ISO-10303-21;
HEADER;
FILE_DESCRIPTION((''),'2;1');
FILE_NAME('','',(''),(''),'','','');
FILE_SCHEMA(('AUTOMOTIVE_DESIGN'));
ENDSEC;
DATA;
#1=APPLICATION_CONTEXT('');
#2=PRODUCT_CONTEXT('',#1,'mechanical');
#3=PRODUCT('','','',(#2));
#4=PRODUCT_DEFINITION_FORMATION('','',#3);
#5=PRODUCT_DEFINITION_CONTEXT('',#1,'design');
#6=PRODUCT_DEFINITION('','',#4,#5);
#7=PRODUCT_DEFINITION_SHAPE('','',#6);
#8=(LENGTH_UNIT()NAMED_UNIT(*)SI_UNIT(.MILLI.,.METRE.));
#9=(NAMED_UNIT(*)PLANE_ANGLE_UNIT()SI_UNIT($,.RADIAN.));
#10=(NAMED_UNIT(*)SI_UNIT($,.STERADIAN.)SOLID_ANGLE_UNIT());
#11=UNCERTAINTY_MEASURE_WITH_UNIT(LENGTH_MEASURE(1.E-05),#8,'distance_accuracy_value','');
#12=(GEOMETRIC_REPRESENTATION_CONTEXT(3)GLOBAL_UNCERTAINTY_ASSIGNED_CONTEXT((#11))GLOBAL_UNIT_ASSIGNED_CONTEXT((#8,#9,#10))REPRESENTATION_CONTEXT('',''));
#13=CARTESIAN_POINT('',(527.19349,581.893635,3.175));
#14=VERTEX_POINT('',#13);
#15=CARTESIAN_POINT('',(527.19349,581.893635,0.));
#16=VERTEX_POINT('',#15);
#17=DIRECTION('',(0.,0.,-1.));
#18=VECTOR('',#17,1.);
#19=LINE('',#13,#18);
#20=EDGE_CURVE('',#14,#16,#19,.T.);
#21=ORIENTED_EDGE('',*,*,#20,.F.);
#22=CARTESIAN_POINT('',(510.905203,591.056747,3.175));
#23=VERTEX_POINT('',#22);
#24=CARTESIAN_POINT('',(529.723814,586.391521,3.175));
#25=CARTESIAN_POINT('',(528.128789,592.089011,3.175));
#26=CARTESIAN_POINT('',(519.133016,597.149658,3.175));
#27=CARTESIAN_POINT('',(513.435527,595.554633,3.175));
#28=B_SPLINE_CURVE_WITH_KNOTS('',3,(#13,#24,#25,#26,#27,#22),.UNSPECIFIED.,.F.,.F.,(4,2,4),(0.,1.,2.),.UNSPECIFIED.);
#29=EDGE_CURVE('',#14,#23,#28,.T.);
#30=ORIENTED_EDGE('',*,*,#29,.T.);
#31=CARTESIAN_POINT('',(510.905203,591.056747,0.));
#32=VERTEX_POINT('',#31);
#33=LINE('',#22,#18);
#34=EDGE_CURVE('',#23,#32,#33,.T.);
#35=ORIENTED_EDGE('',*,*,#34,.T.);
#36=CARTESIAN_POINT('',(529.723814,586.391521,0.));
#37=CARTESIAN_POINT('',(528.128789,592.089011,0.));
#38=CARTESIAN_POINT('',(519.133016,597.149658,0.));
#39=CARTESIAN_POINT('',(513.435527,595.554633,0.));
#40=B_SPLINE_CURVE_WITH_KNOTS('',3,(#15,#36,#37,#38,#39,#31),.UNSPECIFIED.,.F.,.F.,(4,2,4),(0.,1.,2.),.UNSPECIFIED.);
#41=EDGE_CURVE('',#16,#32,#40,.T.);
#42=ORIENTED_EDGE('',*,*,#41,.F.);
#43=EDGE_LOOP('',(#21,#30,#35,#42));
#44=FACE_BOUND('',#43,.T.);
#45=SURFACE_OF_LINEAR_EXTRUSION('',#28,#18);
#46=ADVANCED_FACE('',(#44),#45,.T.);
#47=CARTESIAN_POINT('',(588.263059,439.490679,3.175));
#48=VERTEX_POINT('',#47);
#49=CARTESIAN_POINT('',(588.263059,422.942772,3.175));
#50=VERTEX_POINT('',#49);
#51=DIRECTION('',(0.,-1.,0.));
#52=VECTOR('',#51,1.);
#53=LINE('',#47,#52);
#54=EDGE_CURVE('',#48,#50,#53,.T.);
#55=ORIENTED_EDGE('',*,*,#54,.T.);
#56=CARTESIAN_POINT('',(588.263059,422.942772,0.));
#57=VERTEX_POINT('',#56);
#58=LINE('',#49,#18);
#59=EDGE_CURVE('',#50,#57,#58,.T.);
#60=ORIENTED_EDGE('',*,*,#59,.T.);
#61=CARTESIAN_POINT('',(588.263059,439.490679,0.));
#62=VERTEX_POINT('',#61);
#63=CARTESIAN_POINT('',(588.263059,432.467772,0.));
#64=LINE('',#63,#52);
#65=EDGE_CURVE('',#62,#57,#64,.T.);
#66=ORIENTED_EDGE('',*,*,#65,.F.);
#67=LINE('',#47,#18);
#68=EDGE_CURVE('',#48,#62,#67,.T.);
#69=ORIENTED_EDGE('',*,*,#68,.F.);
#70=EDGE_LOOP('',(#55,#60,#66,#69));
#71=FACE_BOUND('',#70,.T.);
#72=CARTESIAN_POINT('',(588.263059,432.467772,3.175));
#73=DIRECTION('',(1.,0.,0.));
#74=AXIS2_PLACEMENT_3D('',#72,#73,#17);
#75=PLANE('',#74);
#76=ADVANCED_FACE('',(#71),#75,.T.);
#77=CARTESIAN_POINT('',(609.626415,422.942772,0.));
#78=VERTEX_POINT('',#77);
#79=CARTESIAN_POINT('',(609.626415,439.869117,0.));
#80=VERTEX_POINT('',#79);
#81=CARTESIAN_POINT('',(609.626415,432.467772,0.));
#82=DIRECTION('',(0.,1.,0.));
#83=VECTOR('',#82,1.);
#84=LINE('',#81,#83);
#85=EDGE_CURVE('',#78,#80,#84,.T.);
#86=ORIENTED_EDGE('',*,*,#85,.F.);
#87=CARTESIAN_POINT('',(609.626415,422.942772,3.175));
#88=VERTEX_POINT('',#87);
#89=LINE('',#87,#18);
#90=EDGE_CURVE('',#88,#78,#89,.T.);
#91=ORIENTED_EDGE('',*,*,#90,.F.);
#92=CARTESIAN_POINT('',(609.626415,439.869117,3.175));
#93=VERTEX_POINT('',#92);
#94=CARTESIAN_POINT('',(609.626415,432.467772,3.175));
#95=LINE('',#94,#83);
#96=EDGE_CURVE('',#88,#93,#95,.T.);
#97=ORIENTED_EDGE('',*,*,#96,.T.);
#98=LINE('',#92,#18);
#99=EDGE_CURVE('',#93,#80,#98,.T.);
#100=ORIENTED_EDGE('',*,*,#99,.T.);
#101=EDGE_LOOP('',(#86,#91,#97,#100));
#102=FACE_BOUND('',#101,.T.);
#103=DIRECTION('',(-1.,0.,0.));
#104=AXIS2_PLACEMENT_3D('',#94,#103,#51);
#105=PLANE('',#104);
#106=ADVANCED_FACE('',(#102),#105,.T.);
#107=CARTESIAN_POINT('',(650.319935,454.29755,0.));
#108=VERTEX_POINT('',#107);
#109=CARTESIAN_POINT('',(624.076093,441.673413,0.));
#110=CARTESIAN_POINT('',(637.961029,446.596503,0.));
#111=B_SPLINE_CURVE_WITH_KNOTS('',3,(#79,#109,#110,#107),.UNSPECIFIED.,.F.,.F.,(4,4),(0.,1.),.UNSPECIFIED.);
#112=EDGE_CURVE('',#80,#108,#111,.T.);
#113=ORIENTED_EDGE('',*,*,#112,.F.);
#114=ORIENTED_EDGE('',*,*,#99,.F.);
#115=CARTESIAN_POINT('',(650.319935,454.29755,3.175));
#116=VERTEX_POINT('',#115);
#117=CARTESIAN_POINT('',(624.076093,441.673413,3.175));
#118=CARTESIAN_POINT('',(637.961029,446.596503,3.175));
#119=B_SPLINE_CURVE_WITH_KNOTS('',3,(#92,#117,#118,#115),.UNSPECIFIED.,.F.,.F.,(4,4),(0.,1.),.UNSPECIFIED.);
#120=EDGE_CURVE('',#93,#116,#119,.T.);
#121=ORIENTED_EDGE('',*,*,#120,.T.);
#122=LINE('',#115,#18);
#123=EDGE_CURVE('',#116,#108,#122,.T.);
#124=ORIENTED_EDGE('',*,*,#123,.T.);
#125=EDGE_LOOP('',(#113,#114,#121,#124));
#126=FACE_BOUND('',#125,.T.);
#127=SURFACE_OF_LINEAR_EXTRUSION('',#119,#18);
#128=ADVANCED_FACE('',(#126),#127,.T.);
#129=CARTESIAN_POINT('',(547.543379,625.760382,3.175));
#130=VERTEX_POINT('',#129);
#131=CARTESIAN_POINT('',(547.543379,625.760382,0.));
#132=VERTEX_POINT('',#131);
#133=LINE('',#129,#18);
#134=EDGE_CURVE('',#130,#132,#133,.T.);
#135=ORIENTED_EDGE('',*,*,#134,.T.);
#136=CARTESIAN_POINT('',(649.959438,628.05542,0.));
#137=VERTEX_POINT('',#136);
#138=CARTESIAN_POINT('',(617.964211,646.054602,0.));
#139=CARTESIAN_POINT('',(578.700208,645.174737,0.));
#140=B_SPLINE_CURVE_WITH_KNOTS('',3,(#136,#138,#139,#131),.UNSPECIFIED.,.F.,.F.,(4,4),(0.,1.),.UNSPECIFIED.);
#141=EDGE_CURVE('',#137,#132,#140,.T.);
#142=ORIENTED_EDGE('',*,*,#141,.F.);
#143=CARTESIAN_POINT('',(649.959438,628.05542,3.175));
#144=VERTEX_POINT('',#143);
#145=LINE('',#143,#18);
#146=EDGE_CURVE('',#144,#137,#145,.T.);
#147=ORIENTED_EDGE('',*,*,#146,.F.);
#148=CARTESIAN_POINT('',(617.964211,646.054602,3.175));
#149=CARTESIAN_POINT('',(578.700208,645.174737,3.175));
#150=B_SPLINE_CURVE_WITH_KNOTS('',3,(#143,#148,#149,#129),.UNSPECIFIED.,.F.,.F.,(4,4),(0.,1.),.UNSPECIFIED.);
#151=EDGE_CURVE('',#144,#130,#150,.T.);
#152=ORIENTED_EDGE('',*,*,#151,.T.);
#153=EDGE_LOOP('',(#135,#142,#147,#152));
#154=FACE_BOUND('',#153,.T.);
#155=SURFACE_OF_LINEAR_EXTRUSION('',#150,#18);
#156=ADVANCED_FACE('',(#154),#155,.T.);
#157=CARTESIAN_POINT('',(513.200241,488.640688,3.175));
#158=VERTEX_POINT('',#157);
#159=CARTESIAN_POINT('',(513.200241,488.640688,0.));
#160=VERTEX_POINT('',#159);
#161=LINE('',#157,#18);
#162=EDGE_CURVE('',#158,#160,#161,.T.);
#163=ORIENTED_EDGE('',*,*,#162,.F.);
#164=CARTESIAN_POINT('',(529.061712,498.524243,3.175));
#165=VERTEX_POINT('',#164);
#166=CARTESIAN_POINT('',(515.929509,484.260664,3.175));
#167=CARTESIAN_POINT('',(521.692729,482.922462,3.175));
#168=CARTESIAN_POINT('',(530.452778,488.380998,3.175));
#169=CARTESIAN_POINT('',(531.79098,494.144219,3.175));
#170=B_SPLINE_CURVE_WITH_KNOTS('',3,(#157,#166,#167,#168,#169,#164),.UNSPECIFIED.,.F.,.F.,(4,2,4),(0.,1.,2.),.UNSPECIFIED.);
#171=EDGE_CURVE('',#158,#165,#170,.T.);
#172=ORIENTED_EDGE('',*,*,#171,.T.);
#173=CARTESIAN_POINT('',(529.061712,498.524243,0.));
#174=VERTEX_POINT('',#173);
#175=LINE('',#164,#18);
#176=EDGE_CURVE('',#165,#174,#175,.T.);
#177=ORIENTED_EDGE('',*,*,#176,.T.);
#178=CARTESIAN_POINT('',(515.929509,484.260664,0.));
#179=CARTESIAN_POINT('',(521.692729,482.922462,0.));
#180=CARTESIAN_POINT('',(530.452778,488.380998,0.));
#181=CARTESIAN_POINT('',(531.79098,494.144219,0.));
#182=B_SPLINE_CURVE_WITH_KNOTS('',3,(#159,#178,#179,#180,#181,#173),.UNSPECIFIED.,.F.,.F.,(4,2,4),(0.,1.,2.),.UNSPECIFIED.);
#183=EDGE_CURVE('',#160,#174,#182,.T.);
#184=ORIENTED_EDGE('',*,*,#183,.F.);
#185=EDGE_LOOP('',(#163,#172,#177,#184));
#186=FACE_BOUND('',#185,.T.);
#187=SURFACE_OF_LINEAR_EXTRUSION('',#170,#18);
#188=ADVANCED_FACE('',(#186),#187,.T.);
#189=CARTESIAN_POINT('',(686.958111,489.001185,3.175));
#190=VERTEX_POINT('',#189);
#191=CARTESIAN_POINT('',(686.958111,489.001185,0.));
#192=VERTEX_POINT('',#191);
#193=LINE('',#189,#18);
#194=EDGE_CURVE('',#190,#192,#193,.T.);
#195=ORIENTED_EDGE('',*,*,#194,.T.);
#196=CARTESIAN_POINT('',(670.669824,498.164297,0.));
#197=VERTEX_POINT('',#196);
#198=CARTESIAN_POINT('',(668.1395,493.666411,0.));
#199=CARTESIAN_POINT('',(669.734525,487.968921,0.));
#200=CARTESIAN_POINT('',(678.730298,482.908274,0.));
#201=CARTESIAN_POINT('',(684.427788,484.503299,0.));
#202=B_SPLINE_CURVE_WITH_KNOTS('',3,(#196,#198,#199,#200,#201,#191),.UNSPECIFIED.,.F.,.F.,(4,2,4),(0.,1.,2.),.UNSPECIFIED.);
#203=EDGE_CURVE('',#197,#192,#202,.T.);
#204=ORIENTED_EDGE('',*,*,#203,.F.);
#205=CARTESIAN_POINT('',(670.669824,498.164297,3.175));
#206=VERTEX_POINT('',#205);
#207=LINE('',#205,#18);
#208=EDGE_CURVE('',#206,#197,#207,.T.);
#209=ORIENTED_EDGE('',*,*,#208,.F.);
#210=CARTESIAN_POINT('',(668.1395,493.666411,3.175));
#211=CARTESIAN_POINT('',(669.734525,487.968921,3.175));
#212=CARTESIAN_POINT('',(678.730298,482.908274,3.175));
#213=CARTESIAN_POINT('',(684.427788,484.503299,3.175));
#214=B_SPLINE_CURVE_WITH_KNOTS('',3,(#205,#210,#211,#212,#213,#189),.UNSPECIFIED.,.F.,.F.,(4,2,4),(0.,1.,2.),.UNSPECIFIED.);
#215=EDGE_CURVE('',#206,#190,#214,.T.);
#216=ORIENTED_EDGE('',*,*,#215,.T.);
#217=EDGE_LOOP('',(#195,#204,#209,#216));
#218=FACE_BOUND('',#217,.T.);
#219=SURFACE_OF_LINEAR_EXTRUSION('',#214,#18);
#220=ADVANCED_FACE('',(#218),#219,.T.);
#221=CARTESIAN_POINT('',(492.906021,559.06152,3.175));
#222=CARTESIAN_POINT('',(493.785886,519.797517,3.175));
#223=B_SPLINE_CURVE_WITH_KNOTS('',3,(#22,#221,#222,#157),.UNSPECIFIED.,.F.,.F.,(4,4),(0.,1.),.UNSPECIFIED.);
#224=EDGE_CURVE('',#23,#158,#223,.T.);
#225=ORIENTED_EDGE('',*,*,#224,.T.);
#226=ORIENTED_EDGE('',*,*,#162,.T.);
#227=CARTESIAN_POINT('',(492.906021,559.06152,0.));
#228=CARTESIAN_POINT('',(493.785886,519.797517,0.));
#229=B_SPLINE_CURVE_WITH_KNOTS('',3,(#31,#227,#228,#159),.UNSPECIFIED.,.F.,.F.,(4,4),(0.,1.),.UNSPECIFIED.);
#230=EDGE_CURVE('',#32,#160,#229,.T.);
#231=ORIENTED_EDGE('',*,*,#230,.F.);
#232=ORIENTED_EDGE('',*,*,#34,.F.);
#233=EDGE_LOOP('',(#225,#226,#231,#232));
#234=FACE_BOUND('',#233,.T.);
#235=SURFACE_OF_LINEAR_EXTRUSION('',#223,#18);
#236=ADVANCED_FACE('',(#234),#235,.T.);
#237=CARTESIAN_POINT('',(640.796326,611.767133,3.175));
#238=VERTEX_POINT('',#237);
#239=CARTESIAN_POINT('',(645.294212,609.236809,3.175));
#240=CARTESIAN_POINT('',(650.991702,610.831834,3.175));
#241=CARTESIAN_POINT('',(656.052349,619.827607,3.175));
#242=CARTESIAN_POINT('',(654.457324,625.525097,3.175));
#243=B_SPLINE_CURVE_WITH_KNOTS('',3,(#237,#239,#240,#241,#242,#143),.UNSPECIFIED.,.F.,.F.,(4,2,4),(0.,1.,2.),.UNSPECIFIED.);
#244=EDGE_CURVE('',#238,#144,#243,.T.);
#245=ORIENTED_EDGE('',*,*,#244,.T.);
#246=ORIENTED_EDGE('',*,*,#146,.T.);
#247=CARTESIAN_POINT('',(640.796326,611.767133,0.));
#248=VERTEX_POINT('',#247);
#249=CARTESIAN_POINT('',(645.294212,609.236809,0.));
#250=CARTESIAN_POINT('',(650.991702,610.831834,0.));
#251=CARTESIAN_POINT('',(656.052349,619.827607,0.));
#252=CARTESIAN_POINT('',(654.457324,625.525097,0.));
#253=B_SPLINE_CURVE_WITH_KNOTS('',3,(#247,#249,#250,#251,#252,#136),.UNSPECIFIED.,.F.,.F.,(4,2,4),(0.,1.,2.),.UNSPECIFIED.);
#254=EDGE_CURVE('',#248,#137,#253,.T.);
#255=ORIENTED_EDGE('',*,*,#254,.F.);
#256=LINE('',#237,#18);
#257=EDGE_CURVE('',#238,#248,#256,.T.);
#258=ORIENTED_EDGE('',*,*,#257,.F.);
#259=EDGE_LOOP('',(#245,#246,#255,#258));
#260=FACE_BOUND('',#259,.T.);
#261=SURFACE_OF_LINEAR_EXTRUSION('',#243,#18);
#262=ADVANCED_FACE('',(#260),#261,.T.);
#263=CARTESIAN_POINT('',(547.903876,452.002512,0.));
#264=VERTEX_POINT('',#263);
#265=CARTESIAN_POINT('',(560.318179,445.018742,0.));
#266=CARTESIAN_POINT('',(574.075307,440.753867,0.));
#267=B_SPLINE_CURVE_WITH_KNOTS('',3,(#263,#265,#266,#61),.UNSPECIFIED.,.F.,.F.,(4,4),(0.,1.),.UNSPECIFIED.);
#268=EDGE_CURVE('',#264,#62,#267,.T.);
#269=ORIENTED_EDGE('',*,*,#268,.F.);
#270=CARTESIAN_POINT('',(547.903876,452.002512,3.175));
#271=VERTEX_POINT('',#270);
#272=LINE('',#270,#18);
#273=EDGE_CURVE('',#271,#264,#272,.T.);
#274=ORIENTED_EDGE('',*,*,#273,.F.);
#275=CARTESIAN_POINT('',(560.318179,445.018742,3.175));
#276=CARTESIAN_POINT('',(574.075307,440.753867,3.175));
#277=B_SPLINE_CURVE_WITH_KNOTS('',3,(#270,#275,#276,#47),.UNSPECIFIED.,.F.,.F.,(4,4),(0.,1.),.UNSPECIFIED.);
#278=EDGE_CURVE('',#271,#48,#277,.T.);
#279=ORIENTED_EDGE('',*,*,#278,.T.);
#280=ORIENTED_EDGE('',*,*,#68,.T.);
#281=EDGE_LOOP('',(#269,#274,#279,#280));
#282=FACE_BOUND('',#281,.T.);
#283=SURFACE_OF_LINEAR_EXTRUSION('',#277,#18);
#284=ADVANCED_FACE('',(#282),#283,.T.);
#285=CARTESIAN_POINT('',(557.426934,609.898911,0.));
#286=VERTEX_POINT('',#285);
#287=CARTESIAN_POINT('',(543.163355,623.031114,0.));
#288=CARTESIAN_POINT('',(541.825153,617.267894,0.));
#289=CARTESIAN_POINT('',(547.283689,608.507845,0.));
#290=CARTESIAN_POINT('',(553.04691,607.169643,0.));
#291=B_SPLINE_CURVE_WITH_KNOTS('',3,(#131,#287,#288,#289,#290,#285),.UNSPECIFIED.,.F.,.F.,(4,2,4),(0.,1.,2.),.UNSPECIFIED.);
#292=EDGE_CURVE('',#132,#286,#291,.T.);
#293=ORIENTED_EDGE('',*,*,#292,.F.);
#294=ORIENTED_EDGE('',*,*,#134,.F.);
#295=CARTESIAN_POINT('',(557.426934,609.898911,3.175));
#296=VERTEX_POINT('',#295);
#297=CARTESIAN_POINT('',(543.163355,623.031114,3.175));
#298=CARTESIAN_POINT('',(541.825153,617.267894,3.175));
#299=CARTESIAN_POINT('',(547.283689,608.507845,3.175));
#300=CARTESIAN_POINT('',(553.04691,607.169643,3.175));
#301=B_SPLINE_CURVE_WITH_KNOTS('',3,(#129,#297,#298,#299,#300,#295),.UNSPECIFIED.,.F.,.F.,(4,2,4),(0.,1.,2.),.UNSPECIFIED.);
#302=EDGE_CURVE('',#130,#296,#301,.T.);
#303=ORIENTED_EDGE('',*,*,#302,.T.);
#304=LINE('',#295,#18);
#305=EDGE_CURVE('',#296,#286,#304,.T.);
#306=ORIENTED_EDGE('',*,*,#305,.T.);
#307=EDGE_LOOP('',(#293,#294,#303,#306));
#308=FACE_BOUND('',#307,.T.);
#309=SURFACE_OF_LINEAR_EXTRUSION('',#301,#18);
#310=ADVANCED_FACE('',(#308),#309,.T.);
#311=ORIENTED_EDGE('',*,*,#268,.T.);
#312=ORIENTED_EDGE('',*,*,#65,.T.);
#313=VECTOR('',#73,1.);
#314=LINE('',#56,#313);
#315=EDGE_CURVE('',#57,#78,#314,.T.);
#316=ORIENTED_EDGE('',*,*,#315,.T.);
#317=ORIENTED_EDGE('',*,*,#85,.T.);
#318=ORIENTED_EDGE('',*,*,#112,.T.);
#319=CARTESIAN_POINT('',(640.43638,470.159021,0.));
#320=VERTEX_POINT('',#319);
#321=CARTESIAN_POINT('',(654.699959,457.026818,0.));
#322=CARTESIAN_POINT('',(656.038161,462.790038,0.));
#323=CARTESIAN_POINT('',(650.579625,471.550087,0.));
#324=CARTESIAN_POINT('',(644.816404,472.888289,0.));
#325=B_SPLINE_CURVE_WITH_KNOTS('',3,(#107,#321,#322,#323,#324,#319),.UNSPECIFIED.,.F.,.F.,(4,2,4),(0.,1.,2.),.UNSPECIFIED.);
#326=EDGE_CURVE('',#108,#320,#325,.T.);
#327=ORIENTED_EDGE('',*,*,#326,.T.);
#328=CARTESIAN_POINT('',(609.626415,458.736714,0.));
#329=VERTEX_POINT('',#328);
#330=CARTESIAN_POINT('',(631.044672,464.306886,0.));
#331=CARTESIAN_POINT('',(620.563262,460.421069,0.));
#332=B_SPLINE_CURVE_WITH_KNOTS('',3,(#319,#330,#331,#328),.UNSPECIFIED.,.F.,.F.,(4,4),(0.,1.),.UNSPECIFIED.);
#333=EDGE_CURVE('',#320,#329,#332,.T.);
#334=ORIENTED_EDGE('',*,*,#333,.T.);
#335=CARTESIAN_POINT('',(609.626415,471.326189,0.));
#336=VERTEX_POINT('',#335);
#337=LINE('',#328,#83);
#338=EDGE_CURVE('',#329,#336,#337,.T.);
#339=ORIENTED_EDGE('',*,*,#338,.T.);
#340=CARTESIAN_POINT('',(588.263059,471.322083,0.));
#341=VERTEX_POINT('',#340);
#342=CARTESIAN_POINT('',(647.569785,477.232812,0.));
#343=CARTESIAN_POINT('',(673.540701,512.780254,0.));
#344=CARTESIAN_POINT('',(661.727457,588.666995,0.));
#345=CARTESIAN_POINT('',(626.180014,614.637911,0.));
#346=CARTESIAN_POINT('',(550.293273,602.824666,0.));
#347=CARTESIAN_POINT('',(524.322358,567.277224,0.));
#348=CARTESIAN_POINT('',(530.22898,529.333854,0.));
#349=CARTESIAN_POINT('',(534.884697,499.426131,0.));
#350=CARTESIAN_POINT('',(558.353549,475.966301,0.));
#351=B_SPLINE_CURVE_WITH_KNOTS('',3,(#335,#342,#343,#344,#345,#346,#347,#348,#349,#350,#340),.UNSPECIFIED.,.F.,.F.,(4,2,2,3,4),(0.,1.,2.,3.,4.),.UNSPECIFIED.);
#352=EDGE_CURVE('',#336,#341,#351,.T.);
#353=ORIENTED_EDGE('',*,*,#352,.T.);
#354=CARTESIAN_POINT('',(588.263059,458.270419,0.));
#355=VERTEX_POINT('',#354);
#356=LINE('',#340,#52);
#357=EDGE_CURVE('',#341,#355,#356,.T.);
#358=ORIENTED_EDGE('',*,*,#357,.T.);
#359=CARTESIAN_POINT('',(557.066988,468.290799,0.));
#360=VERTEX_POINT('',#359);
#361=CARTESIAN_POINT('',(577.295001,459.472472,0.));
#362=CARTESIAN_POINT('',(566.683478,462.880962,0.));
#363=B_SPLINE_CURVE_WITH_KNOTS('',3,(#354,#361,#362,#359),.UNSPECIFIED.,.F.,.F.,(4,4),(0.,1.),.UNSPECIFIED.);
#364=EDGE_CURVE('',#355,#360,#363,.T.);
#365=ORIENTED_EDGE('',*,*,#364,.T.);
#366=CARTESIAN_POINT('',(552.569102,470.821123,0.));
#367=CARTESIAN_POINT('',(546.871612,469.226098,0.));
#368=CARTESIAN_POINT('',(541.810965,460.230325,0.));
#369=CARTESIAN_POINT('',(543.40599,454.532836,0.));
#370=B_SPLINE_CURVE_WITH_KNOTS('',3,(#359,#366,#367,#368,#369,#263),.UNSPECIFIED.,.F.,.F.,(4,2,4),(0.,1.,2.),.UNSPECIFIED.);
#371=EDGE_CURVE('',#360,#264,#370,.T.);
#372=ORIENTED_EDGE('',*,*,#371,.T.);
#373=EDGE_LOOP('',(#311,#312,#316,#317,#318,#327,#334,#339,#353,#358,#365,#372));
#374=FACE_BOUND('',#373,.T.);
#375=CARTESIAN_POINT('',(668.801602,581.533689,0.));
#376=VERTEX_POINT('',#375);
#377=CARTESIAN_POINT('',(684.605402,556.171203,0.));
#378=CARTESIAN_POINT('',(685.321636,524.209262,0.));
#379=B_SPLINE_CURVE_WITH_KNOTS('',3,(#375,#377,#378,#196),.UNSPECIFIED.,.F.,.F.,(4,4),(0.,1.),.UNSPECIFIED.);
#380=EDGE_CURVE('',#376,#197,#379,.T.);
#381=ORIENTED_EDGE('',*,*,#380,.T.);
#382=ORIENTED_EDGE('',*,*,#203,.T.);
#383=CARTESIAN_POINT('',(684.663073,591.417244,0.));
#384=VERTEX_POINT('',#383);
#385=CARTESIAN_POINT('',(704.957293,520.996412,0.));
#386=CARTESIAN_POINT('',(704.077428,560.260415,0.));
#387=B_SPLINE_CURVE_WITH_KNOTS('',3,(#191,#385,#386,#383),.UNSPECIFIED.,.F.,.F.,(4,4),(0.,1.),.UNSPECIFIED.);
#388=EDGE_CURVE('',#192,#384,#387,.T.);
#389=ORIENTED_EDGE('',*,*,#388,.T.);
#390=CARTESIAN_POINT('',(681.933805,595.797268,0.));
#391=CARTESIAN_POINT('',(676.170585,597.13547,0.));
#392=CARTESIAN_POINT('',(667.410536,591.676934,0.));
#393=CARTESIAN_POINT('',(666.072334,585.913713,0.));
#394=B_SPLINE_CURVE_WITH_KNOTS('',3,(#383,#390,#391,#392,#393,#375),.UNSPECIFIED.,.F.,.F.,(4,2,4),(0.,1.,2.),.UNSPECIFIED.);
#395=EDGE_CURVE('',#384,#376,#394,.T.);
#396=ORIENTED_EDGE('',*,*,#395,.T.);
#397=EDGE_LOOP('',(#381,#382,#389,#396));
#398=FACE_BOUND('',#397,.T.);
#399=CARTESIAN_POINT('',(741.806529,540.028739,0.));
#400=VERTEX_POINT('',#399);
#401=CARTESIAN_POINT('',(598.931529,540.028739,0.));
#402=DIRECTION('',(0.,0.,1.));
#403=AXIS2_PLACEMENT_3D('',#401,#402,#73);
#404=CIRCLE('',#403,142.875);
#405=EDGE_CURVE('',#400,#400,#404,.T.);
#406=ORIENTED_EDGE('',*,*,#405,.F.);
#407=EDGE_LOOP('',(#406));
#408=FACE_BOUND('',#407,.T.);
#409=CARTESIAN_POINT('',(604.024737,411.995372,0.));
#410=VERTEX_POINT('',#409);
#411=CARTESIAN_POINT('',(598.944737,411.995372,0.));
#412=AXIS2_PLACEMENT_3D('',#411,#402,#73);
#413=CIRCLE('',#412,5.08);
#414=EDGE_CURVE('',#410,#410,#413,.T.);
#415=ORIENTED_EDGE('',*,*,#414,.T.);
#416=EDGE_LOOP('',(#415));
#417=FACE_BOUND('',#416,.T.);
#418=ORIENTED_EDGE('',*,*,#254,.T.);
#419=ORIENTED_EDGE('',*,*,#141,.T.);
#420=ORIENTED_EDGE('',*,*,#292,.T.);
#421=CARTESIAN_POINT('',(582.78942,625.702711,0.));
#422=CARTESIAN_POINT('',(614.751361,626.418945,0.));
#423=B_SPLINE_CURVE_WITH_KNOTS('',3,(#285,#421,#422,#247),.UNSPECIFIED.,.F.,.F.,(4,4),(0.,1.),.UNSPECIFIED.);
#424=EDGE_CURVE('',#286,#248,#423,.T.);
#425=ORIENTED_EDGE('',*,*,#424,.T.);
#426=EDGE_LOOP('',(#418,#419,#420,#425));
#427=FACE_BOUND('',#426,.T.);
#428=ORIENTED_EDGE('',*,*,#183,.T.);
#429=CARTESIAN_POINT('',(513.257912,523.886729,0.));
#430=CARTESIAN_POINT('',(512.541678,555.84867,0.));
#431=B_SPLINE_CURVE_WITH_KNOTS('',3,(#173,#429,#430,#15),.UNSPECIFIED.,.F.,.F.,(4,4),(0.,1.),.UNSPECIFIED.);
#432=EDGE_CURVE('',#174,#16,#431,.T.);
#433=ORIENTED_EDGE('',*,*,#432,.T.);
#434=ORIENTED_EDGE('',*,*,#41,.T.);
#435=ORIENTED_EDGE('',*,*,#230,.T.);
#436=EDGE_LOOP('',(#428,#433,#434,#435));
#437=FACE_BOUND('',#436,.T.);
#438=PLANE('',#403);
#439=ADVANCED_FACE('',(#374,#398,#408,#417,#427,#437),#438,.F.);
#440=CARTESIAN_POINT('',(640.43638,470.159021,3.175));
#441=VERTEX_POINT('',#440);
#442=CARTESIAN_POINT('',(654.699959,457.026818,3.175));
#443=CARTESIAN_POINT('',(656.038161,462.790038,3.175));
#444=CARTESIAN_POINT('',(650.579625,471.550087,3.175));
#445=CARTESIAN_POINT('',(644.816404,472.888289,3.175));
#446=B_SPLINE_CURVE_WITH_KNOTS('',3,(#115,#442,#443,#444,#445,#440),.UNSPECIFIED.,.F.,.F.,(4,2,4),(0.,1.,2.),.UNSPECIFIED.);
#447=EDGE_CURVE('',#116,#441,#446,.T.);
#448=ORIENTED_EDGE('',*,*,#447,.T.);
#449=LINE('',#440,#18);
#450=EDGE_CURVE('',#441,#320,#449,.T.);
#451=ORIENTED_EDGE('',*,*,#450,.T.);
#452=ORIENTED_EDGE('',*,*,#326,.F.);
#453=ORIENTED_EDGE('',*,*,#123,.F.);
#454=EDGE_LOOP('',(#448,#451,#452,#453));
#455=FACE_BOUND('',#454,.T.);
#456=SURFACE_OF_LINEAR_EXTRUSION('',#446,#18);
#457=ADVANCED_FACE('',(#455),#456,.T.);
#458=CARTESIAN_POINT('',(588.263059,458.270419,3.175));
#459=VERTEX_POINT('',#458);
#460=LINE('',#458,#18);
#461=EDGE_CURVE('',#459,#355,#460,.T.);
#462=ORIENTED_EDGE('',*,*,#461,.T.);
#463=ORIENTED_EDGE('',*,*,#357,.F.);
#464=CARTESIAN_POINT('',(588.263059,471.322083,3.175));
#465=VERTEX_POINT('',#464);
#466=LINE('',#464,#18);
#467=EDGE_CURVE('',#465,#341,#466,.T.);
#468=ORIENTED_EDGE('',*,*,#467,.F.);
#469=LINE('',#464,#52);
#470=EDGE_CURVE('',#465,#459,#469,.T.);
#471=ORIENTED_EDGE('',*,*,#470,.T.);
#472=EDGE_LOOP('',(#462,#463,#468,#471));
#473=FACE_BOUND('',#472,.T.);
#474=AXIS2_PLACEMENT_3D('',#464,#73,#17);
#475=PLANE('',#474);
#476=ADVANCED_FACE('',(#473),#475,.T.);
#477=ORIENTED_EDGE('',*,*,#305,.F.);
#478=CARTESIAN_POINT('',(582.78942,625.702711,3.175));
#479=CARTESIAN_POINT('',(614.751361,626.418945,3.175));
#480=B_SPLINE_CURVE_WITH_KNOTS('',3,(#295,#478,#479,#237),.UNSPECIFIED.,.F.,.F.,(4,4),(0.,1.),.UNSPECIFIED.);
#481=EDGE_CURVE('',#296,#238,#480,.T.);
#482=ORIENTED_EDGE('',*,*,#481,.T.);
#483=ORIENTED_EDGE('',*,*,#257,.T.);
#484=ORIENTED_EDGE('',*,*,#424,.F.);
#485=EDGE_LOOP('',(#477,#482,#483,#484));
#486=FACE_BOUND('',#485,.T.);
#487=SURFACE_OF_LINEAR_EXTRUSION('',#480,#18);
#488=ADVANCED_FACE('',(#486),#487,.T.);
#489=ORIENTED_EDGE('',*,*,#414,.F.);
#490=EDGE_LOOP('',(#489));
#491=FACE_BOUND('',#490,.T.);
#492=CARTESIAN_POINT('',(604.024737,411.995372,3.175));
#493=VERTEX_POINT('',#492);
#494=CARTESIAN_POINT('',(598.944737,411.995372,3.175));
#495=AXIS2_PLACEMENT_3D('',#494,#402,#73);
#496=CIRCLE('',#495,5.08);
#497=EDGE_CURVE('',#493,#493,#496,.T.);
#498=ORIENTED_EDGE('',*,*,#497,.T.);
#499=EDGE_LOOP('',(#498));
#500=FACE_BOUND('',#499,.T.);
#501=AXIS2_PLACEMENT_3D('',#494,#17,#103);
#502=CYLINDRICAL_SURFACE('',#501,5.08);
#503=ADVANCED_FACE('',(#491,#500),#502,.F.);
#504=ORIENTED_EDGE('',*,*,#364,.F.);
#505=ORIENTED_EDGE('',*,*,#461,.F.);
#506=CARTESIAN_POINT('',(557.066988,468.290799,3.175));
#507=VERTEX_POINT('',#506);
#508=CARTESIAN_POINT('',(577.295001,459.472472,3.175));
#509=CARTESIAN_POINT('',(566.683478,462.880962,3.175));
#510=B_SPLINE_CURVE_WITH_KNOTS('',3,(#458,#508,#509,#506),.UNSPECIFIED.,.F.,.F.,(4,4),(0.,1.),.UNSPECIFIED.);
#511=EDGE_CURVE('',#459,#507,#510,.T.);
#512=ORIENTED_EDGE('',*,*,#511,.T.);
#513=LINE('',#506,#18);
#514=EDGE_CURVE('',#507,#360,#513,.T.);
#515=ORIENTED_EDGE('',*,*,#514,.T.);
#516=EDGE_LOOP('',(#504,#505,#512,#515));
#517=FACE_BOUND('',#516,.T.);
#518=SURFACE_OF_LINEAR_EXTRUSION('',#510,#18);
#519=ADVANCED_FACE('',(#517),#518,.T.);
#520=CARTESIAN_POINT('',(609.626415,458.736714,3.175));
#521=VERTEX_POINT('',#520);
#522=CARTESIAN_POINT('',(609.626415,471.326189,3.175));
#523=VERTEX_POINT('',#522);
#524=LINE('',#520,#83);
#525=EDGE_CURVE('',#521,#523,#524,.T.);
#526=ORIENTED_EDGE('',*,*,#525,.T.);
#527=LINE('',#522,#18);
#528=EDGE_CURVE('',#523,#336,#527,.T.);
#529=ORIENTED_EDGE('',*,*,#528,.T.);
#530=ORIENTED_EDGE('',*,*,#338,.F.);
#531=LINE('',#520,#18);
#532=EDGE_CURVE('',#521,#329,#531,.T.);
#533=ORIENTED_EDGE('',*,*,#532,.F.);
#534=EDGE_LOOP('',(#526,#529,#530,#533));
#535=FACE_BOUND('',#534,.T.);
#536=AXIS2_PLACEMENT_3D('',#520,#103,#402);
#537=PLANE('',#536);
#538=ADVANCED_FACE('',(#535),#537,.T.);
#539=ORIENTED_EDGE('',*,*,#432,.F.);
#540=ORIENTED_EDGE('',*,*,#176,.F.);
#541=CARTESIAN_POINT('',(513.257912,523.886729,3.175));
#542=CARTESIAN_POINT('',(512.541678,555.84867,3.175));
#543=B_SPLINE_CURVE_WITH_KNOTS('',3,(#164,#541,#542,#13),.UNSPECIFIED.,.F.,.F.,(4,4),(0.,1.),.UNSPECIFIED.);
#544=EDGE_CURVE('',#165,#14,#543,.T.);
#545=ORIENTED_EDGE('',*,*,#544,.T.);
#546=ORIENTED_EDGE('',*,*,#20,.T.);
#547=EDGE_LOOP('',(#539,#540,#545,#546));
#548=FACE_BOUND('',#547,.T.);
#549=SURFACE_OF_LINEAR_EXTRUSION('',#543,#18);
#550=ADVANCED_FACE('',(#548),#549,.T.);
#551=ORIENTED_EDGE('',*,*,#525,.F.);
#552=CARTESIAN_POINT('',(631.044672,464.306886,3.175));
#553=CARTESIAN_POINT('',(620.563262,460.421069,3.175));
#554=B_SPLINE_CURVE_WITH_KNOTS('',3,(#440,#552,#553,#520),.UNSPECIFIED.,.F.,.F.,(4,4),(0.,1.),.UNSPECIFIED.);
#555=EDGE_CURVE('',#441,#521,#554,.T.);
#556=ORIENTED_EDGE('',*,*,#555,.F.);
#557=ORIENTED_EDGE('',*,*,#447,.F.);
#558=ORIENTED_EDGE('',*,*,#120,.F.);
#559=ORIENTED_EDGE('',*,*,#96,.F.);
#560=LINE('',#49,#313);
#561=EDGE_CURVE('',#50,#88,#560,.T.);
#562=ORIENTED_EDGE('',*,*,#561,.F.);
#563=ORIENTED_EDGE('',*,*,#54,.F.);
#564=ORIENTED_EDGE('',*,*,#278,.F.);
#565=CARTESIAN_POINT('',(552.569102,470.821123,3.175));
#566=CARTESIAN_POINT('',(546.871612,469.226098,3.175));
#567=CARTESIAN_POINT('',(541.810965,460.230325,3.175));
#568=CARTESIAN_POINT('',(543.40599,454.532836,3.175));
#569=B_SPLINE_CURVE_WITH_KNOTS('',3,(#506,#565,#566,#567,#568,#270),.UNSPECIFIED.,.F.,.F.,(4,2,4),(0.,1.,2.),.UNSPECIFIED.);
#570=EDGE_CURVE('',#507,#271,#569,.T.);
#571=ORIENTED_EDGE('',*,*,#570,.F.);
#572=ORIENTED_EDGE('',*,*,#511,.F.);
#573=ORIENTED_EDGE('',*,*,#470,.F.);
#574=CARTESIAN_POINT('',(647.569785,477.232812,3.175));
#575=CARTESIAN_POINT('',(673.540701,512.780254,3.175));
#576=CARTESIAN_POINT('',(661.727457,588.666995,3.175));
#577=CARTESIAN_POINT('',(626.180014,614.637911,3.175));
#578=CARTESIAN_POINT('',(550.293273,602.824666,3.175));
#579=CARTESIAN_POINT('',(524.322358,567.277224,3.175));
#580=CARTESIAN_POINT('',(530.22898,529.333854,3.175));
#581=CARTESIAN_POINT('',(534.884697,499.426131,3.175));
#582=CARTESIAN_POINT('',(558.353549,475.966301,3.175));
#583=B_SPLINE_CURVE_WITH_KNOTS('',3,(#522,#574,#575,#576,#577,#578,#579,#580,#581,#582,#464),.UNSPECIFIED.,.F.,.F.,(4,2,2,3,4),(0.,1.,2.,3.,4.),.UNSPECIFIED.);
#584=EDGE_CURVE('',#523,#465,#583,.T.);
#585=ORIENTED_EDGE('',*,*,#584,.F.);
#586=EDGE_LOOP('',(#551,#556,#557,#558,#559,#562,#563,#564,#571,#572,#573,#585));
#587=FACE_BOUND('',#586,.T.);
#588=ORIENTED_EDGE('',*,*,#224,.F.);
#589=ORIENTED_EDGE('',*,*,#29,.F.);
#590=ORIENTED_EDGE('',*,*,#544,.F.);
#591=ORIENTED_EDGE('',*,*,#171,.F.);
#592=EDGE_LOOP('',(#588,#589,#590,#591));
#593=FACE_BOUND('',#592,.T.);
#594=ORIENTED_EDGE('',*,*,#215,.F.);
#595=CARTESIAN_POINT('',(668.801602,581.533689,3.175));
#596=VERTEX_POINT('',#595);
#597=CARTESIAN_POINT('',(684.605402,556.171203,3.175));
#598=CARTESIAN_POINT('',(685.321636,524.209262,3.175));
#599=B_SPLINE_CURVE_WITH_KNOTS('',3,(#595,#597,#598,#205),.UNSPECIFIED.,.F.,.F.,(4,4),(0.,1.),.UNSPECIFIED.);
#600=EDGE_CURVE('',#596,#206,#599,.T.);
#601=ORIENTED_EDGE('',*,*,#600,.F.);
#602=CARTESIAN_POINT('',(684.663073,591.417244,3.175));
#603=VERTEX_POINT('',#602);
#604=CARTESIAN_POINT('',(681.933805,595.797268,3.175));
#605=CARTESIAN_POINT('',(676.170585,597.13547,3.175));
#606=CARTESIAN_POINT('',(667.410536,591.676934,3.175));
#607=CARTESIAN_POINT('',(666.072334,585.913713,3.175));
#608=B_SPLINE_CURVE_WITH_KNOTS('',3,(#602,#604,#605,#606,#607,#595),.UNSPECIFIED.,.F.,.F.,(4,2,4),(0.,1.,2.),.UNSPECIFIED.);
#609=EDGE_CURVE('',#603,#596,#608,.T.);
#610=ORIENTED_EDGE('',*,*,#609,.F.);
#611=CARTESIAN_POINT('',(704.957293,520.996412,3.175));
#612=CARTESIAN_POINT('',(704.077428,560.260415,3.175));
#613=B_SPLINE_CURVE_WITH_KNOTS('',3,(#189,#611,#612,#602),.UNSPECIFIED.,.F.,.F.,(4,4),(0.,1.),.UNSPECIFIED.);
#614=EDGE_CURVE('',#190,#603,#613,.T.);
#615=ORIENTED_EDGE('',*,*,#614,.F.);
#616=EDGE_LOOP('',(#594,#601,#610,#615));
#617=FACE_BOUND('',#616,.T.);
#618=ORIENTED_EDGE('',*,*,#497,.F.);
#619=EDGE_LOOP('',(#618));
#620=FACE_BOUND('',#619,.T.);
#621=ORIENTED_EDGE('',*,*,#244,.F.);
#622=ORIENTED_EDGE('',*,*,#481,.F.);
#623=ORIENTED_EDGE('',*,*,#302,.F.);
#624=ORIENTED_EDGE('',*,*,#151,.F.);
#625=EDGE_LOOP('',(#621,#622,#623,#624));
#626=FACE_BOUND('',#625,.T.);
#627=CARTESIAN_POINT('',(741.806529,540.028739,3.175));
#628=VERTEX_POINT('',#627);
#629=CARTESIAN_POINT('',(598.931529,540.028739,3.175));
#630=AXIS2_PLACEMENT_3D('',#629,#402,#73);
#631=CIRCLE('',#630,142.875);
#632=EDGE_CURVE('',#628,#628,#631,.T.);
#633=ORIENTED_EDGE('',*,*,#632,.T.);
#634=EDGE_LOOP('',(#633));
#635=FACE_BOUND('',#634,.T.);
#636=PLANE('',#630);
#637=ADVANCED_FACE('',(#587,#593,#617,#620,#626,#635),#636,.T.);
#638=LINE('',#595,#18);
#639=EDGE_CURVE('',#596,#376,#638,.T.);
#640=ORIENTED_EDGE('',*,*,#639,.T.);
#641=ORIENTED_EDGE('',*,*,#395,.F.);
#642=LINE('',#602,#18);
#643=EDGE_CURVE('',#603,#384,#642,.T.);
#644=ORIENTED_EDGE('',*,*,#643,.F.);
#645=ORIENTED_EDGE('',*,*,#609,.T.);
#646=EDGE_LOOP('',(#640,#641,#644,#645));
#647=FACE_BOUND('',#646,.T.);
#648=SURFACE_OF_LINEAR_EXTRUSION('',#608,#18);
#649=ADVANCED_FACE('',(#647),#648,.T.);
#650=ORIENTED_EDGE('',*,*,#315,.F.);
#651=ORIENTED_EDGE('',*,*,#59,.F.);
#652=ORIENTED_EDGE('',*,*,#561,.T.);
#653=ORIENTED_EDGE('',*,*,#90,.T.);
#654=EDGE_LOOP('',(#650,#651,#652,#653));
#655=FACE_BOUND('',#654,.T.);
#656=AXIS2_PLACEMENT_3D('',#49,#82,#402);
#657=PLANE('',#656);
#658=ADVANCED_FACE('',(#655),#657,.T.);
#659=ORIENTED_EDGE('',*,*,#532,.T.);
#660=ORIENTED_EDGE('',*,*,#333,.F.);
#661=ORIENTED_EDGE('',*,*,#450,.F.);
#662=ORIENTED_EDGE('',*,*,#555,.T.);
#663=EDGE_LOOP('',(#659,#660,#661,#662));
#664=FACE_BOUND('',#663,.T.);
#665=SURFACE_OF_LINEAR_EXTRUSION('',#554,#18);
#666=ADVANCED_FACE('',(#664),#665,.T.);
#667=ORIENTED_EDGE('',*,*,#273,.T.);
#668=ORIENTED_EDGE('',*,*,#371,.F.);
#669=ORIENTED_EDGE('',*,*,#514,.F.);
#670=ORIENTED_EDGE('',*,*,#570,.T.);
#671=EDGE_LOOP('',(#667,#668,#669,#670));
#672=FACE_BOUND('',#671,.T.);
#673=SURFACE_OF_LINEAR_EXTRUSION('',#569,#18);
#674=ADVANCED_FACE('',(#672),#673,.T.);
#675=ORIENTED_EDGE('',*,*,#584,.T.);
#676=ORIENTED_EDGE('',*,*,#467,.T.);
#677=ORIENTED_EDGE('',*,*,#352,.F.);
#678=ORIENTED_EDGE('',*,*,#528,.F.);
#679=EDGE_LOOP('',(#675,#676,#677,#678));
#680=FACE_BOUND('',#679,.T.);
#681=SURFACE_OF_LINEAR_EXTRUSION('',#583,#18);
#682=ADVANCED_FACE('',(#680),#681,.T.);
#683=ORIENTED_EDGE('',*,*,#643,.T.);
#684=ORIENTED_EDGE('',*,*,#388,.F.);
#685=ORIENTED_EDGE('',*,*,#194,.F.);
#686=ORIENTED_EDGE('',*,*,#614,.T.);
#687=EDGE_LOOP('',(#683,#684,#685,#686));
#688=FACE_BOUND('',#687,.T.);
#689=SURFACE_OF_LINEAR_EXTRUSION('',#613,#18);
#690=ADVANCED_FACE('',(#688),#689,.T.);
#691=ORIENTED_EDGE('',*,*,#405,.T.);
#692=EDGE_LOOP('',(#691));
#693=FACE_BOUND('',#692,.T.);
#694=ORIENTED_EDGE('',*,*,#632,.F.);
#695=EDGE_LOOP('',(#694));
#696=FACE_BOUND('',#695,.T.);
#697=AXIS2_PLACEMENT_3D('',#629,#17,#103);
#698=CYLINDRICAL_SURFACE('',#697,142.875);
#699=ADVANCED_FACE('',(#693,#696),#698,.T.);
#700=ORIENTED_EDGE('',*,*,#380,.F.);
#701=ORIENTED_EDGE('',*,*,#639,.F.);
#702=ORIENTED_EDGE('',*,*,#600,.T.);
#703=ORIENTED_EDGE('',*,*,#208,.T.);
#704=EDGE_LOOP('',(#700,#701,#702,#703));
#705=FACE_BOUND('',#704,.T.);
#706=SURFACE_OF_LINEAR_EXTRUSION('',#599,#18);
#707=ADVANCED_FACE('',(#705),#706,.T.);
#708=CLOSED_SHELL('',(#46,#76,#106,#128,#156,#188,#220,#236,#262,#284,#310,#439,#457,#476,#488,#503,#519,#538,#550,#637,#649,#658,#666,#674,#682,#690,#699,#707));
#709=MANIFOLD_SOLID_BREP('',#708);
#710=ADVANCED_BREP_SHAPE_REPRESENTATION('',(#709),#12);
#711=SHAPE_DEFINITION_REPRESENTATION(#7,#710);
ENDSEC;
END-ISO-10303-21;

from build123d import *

# Parameters (mm, degrees)
MODEL_R             = 142.875
MODEL_R_2           = 5.08
BOSS_EXTRUDE1_DEPTH = 3.175


with BuildPart() as part:
    # Model → Boss-Extrude1 (new body)
    with BuildSketch(Plane.XY):
        with Locations((598.931529384, 540.028739073)):
            Circle(MODEL_R)
        with Locations((598.94473685, 411.99537176)):
            Circle(MODEL_R_2, mode=Mode.SUBTRACT)
        with BuildLine():
            Line((588.263058769, 439.49067885), (588.263058769, 432.46777176))
            Line((588.263058769, 432.46777176), (588.263058769, 422.94277176))
            Line((588.263058769, 422.94277176), (609.626414932, 422.94277176))
            Line((609.626414932, 422.94277176), (609.626414932, 432.46777176))
            Line((609.626414932, 432.46777176), (609.626414932, 439.869117325))
            add(Edge.make_bspline(
                [(609.626414932, 439.869117325), (624.076093151, 441.673413325), (637.961028614, 446.596503111), (650.319934945, 454.297549728)],
                knots=[0, 0, 0, 0, 1, 1, 1, 1], degree=3))
            add(Edge.make_bspline(
                [(650.319934945, 454.297549728), (654.699959233, 457.026818025), (656.038161369, 462.790038372), (650.579624776, 471.550086948), (644.816404429, 472.888289084), (640.436380141, 470.159020788)],
                knots=[0, 0, 0, 0, 1, 1, 2, 2, 2, 2], degree=3))
            add(Edge.make_bspline(
                [(609.626414932, 458.736713526), (620.563261609, 460.421069084), (631.044671662, 464.306886071), (640.436380141, 470.159020788)],
                knots=[0, 0, 0, 0, 1, 1, 1, 1], degree=3))
            Line((609.626414932, 458.736713526), (609.626414932, 471.326189462))
            add(Edge.make_bspline(
                [(609.626414932, 471.326189462), (647.569785357, 477.23281165), (673.540701185, 512.780254195), (661.727456807, 588.666995045), (626.180014262, 614.637910874), (550.293273412, 602.824666496), (524.322357584, 567.277223951), (530.228979773, 529.333853526), (534.884697336, 499.426131239), (558.353548704, 475.966301231), (588.263058769, 471.322082665)],
                knots=[0, 0, 0, 0, 1, 1, 2, 2, 3, 3, 3, 4, 4, 4, 4], degree=3))
            Line((588.263058769, 471.322082665), (588.263058769, 458.270419272))
            add(Edge.make_bspline(
                [(557.066987985, 468.290799115), (566.68347822, 462.880962168), (577.295001116, 459.472472333), (588.263058769, 458.270419272)],
                knots=[0, 0, 0, 0, 1, 1, 1, 1], degree=3))
            add(Edge.make_bspline(
                [(557.066987985, 468.290799115), (552.569101696, 470.821122636), (546.871611923, 469.226097865), (541.81096488, 460.230325286), (543.405989652, 454.532835513), (547.903875941, 452.002511992)],
                knots=[0, 0, 0, 0, 1, 1, 2, 2, 2, 2], degree=3))
            add(Edge.make_bspline(
                [(547.903875941, 452.002511992), (560.318178706, 445.018742224), (574.075306668, 440.753866736), (588.263058769, 439.49067885)],
                knots=[0, 0, 0, 0, 1, 1, 1, 1], degree=3))
        make_face(mode=Mode.SUBTRACT)
        with BuildLine():
            add(Edge.make_bspline(
                [(670.669823945, 498.164296946), (668.139500424, 493.666410656), (669.734525196, 487.968920884), (678.730297775, 482.908273841), (684.427787547, 484.503298612), (686.958111069, 489.001184902)],
                knots=[0, 0, 0, 0, 1, 1, 2, 2, 2, 2], degree=3))
            add(Edge.make_bspline(
                [(686.958111069, 489.001184902), (704.957293449, 520.996411982), (704.077427826, 560.260415411), (684.663073332, 591.417243905)],
                knots=[0, 0, 0, 0, 1, 1, 1, 1], degree=3))
            add(Edge.make_bspline(
                [(684.663073332, 591.417243905), (681.933805036, 595.797268193), (676.170584688, 597.135470329), (667.410536112, 591.676933737), (666.072333976, 585.913713389), (668.801602272, 581.533689101)],
                knots=[0, 0, 0, 0, 1, 1, 2, 2, 2, 2], degree=3))
            add(Edge.make_bspline(
                [(670.669823945, 498.164296946), (685.321636453, 524.209261568), (684.605402467, 556.171203195), (668.801602272, 581.533689101)],
                knots=[0, 0, 0, 0, 1, 1, 1, 1], degree=3))
        make_face(mode=Mode.SUBTRACT)
        with BuildLine():
            add(Edge.make_bspline(
                [(640.796326115, 611.767132906), (645.294212404, 609.236809385), (650.991702177, 610.831834156), (656.05234922, 619.827606735), (654.457324448, 625.525096508), (649.959438158, 628.055420029)],
                knots=[0, 0, 0, 0, 1, 1, 2, 2, 2, 2], degree=3))
            add(Edge.make_bspline(
                [(649.959438158, 628.055420029), (617.964211079, 646.05460241), (578.700207649, 645.174736787), (547.543379155, 625.760382293)],
                knots=[0, 0, 0, 0, 1, 1, 1, 1], degree=3))
            add(Edge.make_bspline(
                [(547.543379155, 625.760382293), (543.163354867, 623.031113996), (541.825152731, 617.267893649), (547.283689324, 608.507845073), (553.046909671, 607.169642937), (557.426933959, 609.898911233)],
                knots=[0, 0, 0, 0, 1, 1, 2, 2, 2, 2], degree=3))
            add(Edge.make_bspline(
                [(640.796326115, 611.767132906), (614.751361492, 626.418945414), (582.789419865, 625.702711428), (557.426933959, 609.898911233)],
                knots=[0, 0, 0, 0, 1, 1, 1, 1], degree=3))
        make_face(mode=Mode.SUBTRACT)
        with BuildLine():
            add(Edge.make_bspline(
                [(527.193490155, 581.893635075), (529.723813676, 586.391521365), (528.128788904, 592.089011137), (519.133016325, 597.14965818), (513.435526552, 595.554633409), (510.905203031, 591.056747119)],
                knots=[0, 0, 0, 0, 1, 1, 2, 2, 2, 2], degree=3))
            add(Edge.make_bspline(
                [(510.905203031, 591.056747119), (492.906020651, 559.061520039), (493.785886274, 519.79751661), (513.200240768, 488.640688116)],
                knots=[0, 0, 0, 0, 1, 1, 1, 1], degree=3))
            add(Edge.make_bspline(
                [(513.200240768, 488.640688116), (515.929509064, 484.260663827), (521.692729412, 482.922461692), (530.452777988, 488.380998284), (531.790980124, 494.144218632), (529.061711827, 498.52424292)],
                knots=[0, 0, 0, 0, 1, 1, 2, 2, 2, 2], degree=3))
            add(Edge.make_bspline(
                [(527.193490155, 581.893635075), (512.541677646, 555.848670453), (513.257911632, 523.886728826), (529.061711827, 498.52424292)],
                knots=[0, 0, 0, 0, 1, 1, 1, 1], degree=3))
        make_face(mode=Mode.SUBTRACT)
    extrude(amount=BOSS_EXTRUDE1_DEPTH)


solid = part.part
